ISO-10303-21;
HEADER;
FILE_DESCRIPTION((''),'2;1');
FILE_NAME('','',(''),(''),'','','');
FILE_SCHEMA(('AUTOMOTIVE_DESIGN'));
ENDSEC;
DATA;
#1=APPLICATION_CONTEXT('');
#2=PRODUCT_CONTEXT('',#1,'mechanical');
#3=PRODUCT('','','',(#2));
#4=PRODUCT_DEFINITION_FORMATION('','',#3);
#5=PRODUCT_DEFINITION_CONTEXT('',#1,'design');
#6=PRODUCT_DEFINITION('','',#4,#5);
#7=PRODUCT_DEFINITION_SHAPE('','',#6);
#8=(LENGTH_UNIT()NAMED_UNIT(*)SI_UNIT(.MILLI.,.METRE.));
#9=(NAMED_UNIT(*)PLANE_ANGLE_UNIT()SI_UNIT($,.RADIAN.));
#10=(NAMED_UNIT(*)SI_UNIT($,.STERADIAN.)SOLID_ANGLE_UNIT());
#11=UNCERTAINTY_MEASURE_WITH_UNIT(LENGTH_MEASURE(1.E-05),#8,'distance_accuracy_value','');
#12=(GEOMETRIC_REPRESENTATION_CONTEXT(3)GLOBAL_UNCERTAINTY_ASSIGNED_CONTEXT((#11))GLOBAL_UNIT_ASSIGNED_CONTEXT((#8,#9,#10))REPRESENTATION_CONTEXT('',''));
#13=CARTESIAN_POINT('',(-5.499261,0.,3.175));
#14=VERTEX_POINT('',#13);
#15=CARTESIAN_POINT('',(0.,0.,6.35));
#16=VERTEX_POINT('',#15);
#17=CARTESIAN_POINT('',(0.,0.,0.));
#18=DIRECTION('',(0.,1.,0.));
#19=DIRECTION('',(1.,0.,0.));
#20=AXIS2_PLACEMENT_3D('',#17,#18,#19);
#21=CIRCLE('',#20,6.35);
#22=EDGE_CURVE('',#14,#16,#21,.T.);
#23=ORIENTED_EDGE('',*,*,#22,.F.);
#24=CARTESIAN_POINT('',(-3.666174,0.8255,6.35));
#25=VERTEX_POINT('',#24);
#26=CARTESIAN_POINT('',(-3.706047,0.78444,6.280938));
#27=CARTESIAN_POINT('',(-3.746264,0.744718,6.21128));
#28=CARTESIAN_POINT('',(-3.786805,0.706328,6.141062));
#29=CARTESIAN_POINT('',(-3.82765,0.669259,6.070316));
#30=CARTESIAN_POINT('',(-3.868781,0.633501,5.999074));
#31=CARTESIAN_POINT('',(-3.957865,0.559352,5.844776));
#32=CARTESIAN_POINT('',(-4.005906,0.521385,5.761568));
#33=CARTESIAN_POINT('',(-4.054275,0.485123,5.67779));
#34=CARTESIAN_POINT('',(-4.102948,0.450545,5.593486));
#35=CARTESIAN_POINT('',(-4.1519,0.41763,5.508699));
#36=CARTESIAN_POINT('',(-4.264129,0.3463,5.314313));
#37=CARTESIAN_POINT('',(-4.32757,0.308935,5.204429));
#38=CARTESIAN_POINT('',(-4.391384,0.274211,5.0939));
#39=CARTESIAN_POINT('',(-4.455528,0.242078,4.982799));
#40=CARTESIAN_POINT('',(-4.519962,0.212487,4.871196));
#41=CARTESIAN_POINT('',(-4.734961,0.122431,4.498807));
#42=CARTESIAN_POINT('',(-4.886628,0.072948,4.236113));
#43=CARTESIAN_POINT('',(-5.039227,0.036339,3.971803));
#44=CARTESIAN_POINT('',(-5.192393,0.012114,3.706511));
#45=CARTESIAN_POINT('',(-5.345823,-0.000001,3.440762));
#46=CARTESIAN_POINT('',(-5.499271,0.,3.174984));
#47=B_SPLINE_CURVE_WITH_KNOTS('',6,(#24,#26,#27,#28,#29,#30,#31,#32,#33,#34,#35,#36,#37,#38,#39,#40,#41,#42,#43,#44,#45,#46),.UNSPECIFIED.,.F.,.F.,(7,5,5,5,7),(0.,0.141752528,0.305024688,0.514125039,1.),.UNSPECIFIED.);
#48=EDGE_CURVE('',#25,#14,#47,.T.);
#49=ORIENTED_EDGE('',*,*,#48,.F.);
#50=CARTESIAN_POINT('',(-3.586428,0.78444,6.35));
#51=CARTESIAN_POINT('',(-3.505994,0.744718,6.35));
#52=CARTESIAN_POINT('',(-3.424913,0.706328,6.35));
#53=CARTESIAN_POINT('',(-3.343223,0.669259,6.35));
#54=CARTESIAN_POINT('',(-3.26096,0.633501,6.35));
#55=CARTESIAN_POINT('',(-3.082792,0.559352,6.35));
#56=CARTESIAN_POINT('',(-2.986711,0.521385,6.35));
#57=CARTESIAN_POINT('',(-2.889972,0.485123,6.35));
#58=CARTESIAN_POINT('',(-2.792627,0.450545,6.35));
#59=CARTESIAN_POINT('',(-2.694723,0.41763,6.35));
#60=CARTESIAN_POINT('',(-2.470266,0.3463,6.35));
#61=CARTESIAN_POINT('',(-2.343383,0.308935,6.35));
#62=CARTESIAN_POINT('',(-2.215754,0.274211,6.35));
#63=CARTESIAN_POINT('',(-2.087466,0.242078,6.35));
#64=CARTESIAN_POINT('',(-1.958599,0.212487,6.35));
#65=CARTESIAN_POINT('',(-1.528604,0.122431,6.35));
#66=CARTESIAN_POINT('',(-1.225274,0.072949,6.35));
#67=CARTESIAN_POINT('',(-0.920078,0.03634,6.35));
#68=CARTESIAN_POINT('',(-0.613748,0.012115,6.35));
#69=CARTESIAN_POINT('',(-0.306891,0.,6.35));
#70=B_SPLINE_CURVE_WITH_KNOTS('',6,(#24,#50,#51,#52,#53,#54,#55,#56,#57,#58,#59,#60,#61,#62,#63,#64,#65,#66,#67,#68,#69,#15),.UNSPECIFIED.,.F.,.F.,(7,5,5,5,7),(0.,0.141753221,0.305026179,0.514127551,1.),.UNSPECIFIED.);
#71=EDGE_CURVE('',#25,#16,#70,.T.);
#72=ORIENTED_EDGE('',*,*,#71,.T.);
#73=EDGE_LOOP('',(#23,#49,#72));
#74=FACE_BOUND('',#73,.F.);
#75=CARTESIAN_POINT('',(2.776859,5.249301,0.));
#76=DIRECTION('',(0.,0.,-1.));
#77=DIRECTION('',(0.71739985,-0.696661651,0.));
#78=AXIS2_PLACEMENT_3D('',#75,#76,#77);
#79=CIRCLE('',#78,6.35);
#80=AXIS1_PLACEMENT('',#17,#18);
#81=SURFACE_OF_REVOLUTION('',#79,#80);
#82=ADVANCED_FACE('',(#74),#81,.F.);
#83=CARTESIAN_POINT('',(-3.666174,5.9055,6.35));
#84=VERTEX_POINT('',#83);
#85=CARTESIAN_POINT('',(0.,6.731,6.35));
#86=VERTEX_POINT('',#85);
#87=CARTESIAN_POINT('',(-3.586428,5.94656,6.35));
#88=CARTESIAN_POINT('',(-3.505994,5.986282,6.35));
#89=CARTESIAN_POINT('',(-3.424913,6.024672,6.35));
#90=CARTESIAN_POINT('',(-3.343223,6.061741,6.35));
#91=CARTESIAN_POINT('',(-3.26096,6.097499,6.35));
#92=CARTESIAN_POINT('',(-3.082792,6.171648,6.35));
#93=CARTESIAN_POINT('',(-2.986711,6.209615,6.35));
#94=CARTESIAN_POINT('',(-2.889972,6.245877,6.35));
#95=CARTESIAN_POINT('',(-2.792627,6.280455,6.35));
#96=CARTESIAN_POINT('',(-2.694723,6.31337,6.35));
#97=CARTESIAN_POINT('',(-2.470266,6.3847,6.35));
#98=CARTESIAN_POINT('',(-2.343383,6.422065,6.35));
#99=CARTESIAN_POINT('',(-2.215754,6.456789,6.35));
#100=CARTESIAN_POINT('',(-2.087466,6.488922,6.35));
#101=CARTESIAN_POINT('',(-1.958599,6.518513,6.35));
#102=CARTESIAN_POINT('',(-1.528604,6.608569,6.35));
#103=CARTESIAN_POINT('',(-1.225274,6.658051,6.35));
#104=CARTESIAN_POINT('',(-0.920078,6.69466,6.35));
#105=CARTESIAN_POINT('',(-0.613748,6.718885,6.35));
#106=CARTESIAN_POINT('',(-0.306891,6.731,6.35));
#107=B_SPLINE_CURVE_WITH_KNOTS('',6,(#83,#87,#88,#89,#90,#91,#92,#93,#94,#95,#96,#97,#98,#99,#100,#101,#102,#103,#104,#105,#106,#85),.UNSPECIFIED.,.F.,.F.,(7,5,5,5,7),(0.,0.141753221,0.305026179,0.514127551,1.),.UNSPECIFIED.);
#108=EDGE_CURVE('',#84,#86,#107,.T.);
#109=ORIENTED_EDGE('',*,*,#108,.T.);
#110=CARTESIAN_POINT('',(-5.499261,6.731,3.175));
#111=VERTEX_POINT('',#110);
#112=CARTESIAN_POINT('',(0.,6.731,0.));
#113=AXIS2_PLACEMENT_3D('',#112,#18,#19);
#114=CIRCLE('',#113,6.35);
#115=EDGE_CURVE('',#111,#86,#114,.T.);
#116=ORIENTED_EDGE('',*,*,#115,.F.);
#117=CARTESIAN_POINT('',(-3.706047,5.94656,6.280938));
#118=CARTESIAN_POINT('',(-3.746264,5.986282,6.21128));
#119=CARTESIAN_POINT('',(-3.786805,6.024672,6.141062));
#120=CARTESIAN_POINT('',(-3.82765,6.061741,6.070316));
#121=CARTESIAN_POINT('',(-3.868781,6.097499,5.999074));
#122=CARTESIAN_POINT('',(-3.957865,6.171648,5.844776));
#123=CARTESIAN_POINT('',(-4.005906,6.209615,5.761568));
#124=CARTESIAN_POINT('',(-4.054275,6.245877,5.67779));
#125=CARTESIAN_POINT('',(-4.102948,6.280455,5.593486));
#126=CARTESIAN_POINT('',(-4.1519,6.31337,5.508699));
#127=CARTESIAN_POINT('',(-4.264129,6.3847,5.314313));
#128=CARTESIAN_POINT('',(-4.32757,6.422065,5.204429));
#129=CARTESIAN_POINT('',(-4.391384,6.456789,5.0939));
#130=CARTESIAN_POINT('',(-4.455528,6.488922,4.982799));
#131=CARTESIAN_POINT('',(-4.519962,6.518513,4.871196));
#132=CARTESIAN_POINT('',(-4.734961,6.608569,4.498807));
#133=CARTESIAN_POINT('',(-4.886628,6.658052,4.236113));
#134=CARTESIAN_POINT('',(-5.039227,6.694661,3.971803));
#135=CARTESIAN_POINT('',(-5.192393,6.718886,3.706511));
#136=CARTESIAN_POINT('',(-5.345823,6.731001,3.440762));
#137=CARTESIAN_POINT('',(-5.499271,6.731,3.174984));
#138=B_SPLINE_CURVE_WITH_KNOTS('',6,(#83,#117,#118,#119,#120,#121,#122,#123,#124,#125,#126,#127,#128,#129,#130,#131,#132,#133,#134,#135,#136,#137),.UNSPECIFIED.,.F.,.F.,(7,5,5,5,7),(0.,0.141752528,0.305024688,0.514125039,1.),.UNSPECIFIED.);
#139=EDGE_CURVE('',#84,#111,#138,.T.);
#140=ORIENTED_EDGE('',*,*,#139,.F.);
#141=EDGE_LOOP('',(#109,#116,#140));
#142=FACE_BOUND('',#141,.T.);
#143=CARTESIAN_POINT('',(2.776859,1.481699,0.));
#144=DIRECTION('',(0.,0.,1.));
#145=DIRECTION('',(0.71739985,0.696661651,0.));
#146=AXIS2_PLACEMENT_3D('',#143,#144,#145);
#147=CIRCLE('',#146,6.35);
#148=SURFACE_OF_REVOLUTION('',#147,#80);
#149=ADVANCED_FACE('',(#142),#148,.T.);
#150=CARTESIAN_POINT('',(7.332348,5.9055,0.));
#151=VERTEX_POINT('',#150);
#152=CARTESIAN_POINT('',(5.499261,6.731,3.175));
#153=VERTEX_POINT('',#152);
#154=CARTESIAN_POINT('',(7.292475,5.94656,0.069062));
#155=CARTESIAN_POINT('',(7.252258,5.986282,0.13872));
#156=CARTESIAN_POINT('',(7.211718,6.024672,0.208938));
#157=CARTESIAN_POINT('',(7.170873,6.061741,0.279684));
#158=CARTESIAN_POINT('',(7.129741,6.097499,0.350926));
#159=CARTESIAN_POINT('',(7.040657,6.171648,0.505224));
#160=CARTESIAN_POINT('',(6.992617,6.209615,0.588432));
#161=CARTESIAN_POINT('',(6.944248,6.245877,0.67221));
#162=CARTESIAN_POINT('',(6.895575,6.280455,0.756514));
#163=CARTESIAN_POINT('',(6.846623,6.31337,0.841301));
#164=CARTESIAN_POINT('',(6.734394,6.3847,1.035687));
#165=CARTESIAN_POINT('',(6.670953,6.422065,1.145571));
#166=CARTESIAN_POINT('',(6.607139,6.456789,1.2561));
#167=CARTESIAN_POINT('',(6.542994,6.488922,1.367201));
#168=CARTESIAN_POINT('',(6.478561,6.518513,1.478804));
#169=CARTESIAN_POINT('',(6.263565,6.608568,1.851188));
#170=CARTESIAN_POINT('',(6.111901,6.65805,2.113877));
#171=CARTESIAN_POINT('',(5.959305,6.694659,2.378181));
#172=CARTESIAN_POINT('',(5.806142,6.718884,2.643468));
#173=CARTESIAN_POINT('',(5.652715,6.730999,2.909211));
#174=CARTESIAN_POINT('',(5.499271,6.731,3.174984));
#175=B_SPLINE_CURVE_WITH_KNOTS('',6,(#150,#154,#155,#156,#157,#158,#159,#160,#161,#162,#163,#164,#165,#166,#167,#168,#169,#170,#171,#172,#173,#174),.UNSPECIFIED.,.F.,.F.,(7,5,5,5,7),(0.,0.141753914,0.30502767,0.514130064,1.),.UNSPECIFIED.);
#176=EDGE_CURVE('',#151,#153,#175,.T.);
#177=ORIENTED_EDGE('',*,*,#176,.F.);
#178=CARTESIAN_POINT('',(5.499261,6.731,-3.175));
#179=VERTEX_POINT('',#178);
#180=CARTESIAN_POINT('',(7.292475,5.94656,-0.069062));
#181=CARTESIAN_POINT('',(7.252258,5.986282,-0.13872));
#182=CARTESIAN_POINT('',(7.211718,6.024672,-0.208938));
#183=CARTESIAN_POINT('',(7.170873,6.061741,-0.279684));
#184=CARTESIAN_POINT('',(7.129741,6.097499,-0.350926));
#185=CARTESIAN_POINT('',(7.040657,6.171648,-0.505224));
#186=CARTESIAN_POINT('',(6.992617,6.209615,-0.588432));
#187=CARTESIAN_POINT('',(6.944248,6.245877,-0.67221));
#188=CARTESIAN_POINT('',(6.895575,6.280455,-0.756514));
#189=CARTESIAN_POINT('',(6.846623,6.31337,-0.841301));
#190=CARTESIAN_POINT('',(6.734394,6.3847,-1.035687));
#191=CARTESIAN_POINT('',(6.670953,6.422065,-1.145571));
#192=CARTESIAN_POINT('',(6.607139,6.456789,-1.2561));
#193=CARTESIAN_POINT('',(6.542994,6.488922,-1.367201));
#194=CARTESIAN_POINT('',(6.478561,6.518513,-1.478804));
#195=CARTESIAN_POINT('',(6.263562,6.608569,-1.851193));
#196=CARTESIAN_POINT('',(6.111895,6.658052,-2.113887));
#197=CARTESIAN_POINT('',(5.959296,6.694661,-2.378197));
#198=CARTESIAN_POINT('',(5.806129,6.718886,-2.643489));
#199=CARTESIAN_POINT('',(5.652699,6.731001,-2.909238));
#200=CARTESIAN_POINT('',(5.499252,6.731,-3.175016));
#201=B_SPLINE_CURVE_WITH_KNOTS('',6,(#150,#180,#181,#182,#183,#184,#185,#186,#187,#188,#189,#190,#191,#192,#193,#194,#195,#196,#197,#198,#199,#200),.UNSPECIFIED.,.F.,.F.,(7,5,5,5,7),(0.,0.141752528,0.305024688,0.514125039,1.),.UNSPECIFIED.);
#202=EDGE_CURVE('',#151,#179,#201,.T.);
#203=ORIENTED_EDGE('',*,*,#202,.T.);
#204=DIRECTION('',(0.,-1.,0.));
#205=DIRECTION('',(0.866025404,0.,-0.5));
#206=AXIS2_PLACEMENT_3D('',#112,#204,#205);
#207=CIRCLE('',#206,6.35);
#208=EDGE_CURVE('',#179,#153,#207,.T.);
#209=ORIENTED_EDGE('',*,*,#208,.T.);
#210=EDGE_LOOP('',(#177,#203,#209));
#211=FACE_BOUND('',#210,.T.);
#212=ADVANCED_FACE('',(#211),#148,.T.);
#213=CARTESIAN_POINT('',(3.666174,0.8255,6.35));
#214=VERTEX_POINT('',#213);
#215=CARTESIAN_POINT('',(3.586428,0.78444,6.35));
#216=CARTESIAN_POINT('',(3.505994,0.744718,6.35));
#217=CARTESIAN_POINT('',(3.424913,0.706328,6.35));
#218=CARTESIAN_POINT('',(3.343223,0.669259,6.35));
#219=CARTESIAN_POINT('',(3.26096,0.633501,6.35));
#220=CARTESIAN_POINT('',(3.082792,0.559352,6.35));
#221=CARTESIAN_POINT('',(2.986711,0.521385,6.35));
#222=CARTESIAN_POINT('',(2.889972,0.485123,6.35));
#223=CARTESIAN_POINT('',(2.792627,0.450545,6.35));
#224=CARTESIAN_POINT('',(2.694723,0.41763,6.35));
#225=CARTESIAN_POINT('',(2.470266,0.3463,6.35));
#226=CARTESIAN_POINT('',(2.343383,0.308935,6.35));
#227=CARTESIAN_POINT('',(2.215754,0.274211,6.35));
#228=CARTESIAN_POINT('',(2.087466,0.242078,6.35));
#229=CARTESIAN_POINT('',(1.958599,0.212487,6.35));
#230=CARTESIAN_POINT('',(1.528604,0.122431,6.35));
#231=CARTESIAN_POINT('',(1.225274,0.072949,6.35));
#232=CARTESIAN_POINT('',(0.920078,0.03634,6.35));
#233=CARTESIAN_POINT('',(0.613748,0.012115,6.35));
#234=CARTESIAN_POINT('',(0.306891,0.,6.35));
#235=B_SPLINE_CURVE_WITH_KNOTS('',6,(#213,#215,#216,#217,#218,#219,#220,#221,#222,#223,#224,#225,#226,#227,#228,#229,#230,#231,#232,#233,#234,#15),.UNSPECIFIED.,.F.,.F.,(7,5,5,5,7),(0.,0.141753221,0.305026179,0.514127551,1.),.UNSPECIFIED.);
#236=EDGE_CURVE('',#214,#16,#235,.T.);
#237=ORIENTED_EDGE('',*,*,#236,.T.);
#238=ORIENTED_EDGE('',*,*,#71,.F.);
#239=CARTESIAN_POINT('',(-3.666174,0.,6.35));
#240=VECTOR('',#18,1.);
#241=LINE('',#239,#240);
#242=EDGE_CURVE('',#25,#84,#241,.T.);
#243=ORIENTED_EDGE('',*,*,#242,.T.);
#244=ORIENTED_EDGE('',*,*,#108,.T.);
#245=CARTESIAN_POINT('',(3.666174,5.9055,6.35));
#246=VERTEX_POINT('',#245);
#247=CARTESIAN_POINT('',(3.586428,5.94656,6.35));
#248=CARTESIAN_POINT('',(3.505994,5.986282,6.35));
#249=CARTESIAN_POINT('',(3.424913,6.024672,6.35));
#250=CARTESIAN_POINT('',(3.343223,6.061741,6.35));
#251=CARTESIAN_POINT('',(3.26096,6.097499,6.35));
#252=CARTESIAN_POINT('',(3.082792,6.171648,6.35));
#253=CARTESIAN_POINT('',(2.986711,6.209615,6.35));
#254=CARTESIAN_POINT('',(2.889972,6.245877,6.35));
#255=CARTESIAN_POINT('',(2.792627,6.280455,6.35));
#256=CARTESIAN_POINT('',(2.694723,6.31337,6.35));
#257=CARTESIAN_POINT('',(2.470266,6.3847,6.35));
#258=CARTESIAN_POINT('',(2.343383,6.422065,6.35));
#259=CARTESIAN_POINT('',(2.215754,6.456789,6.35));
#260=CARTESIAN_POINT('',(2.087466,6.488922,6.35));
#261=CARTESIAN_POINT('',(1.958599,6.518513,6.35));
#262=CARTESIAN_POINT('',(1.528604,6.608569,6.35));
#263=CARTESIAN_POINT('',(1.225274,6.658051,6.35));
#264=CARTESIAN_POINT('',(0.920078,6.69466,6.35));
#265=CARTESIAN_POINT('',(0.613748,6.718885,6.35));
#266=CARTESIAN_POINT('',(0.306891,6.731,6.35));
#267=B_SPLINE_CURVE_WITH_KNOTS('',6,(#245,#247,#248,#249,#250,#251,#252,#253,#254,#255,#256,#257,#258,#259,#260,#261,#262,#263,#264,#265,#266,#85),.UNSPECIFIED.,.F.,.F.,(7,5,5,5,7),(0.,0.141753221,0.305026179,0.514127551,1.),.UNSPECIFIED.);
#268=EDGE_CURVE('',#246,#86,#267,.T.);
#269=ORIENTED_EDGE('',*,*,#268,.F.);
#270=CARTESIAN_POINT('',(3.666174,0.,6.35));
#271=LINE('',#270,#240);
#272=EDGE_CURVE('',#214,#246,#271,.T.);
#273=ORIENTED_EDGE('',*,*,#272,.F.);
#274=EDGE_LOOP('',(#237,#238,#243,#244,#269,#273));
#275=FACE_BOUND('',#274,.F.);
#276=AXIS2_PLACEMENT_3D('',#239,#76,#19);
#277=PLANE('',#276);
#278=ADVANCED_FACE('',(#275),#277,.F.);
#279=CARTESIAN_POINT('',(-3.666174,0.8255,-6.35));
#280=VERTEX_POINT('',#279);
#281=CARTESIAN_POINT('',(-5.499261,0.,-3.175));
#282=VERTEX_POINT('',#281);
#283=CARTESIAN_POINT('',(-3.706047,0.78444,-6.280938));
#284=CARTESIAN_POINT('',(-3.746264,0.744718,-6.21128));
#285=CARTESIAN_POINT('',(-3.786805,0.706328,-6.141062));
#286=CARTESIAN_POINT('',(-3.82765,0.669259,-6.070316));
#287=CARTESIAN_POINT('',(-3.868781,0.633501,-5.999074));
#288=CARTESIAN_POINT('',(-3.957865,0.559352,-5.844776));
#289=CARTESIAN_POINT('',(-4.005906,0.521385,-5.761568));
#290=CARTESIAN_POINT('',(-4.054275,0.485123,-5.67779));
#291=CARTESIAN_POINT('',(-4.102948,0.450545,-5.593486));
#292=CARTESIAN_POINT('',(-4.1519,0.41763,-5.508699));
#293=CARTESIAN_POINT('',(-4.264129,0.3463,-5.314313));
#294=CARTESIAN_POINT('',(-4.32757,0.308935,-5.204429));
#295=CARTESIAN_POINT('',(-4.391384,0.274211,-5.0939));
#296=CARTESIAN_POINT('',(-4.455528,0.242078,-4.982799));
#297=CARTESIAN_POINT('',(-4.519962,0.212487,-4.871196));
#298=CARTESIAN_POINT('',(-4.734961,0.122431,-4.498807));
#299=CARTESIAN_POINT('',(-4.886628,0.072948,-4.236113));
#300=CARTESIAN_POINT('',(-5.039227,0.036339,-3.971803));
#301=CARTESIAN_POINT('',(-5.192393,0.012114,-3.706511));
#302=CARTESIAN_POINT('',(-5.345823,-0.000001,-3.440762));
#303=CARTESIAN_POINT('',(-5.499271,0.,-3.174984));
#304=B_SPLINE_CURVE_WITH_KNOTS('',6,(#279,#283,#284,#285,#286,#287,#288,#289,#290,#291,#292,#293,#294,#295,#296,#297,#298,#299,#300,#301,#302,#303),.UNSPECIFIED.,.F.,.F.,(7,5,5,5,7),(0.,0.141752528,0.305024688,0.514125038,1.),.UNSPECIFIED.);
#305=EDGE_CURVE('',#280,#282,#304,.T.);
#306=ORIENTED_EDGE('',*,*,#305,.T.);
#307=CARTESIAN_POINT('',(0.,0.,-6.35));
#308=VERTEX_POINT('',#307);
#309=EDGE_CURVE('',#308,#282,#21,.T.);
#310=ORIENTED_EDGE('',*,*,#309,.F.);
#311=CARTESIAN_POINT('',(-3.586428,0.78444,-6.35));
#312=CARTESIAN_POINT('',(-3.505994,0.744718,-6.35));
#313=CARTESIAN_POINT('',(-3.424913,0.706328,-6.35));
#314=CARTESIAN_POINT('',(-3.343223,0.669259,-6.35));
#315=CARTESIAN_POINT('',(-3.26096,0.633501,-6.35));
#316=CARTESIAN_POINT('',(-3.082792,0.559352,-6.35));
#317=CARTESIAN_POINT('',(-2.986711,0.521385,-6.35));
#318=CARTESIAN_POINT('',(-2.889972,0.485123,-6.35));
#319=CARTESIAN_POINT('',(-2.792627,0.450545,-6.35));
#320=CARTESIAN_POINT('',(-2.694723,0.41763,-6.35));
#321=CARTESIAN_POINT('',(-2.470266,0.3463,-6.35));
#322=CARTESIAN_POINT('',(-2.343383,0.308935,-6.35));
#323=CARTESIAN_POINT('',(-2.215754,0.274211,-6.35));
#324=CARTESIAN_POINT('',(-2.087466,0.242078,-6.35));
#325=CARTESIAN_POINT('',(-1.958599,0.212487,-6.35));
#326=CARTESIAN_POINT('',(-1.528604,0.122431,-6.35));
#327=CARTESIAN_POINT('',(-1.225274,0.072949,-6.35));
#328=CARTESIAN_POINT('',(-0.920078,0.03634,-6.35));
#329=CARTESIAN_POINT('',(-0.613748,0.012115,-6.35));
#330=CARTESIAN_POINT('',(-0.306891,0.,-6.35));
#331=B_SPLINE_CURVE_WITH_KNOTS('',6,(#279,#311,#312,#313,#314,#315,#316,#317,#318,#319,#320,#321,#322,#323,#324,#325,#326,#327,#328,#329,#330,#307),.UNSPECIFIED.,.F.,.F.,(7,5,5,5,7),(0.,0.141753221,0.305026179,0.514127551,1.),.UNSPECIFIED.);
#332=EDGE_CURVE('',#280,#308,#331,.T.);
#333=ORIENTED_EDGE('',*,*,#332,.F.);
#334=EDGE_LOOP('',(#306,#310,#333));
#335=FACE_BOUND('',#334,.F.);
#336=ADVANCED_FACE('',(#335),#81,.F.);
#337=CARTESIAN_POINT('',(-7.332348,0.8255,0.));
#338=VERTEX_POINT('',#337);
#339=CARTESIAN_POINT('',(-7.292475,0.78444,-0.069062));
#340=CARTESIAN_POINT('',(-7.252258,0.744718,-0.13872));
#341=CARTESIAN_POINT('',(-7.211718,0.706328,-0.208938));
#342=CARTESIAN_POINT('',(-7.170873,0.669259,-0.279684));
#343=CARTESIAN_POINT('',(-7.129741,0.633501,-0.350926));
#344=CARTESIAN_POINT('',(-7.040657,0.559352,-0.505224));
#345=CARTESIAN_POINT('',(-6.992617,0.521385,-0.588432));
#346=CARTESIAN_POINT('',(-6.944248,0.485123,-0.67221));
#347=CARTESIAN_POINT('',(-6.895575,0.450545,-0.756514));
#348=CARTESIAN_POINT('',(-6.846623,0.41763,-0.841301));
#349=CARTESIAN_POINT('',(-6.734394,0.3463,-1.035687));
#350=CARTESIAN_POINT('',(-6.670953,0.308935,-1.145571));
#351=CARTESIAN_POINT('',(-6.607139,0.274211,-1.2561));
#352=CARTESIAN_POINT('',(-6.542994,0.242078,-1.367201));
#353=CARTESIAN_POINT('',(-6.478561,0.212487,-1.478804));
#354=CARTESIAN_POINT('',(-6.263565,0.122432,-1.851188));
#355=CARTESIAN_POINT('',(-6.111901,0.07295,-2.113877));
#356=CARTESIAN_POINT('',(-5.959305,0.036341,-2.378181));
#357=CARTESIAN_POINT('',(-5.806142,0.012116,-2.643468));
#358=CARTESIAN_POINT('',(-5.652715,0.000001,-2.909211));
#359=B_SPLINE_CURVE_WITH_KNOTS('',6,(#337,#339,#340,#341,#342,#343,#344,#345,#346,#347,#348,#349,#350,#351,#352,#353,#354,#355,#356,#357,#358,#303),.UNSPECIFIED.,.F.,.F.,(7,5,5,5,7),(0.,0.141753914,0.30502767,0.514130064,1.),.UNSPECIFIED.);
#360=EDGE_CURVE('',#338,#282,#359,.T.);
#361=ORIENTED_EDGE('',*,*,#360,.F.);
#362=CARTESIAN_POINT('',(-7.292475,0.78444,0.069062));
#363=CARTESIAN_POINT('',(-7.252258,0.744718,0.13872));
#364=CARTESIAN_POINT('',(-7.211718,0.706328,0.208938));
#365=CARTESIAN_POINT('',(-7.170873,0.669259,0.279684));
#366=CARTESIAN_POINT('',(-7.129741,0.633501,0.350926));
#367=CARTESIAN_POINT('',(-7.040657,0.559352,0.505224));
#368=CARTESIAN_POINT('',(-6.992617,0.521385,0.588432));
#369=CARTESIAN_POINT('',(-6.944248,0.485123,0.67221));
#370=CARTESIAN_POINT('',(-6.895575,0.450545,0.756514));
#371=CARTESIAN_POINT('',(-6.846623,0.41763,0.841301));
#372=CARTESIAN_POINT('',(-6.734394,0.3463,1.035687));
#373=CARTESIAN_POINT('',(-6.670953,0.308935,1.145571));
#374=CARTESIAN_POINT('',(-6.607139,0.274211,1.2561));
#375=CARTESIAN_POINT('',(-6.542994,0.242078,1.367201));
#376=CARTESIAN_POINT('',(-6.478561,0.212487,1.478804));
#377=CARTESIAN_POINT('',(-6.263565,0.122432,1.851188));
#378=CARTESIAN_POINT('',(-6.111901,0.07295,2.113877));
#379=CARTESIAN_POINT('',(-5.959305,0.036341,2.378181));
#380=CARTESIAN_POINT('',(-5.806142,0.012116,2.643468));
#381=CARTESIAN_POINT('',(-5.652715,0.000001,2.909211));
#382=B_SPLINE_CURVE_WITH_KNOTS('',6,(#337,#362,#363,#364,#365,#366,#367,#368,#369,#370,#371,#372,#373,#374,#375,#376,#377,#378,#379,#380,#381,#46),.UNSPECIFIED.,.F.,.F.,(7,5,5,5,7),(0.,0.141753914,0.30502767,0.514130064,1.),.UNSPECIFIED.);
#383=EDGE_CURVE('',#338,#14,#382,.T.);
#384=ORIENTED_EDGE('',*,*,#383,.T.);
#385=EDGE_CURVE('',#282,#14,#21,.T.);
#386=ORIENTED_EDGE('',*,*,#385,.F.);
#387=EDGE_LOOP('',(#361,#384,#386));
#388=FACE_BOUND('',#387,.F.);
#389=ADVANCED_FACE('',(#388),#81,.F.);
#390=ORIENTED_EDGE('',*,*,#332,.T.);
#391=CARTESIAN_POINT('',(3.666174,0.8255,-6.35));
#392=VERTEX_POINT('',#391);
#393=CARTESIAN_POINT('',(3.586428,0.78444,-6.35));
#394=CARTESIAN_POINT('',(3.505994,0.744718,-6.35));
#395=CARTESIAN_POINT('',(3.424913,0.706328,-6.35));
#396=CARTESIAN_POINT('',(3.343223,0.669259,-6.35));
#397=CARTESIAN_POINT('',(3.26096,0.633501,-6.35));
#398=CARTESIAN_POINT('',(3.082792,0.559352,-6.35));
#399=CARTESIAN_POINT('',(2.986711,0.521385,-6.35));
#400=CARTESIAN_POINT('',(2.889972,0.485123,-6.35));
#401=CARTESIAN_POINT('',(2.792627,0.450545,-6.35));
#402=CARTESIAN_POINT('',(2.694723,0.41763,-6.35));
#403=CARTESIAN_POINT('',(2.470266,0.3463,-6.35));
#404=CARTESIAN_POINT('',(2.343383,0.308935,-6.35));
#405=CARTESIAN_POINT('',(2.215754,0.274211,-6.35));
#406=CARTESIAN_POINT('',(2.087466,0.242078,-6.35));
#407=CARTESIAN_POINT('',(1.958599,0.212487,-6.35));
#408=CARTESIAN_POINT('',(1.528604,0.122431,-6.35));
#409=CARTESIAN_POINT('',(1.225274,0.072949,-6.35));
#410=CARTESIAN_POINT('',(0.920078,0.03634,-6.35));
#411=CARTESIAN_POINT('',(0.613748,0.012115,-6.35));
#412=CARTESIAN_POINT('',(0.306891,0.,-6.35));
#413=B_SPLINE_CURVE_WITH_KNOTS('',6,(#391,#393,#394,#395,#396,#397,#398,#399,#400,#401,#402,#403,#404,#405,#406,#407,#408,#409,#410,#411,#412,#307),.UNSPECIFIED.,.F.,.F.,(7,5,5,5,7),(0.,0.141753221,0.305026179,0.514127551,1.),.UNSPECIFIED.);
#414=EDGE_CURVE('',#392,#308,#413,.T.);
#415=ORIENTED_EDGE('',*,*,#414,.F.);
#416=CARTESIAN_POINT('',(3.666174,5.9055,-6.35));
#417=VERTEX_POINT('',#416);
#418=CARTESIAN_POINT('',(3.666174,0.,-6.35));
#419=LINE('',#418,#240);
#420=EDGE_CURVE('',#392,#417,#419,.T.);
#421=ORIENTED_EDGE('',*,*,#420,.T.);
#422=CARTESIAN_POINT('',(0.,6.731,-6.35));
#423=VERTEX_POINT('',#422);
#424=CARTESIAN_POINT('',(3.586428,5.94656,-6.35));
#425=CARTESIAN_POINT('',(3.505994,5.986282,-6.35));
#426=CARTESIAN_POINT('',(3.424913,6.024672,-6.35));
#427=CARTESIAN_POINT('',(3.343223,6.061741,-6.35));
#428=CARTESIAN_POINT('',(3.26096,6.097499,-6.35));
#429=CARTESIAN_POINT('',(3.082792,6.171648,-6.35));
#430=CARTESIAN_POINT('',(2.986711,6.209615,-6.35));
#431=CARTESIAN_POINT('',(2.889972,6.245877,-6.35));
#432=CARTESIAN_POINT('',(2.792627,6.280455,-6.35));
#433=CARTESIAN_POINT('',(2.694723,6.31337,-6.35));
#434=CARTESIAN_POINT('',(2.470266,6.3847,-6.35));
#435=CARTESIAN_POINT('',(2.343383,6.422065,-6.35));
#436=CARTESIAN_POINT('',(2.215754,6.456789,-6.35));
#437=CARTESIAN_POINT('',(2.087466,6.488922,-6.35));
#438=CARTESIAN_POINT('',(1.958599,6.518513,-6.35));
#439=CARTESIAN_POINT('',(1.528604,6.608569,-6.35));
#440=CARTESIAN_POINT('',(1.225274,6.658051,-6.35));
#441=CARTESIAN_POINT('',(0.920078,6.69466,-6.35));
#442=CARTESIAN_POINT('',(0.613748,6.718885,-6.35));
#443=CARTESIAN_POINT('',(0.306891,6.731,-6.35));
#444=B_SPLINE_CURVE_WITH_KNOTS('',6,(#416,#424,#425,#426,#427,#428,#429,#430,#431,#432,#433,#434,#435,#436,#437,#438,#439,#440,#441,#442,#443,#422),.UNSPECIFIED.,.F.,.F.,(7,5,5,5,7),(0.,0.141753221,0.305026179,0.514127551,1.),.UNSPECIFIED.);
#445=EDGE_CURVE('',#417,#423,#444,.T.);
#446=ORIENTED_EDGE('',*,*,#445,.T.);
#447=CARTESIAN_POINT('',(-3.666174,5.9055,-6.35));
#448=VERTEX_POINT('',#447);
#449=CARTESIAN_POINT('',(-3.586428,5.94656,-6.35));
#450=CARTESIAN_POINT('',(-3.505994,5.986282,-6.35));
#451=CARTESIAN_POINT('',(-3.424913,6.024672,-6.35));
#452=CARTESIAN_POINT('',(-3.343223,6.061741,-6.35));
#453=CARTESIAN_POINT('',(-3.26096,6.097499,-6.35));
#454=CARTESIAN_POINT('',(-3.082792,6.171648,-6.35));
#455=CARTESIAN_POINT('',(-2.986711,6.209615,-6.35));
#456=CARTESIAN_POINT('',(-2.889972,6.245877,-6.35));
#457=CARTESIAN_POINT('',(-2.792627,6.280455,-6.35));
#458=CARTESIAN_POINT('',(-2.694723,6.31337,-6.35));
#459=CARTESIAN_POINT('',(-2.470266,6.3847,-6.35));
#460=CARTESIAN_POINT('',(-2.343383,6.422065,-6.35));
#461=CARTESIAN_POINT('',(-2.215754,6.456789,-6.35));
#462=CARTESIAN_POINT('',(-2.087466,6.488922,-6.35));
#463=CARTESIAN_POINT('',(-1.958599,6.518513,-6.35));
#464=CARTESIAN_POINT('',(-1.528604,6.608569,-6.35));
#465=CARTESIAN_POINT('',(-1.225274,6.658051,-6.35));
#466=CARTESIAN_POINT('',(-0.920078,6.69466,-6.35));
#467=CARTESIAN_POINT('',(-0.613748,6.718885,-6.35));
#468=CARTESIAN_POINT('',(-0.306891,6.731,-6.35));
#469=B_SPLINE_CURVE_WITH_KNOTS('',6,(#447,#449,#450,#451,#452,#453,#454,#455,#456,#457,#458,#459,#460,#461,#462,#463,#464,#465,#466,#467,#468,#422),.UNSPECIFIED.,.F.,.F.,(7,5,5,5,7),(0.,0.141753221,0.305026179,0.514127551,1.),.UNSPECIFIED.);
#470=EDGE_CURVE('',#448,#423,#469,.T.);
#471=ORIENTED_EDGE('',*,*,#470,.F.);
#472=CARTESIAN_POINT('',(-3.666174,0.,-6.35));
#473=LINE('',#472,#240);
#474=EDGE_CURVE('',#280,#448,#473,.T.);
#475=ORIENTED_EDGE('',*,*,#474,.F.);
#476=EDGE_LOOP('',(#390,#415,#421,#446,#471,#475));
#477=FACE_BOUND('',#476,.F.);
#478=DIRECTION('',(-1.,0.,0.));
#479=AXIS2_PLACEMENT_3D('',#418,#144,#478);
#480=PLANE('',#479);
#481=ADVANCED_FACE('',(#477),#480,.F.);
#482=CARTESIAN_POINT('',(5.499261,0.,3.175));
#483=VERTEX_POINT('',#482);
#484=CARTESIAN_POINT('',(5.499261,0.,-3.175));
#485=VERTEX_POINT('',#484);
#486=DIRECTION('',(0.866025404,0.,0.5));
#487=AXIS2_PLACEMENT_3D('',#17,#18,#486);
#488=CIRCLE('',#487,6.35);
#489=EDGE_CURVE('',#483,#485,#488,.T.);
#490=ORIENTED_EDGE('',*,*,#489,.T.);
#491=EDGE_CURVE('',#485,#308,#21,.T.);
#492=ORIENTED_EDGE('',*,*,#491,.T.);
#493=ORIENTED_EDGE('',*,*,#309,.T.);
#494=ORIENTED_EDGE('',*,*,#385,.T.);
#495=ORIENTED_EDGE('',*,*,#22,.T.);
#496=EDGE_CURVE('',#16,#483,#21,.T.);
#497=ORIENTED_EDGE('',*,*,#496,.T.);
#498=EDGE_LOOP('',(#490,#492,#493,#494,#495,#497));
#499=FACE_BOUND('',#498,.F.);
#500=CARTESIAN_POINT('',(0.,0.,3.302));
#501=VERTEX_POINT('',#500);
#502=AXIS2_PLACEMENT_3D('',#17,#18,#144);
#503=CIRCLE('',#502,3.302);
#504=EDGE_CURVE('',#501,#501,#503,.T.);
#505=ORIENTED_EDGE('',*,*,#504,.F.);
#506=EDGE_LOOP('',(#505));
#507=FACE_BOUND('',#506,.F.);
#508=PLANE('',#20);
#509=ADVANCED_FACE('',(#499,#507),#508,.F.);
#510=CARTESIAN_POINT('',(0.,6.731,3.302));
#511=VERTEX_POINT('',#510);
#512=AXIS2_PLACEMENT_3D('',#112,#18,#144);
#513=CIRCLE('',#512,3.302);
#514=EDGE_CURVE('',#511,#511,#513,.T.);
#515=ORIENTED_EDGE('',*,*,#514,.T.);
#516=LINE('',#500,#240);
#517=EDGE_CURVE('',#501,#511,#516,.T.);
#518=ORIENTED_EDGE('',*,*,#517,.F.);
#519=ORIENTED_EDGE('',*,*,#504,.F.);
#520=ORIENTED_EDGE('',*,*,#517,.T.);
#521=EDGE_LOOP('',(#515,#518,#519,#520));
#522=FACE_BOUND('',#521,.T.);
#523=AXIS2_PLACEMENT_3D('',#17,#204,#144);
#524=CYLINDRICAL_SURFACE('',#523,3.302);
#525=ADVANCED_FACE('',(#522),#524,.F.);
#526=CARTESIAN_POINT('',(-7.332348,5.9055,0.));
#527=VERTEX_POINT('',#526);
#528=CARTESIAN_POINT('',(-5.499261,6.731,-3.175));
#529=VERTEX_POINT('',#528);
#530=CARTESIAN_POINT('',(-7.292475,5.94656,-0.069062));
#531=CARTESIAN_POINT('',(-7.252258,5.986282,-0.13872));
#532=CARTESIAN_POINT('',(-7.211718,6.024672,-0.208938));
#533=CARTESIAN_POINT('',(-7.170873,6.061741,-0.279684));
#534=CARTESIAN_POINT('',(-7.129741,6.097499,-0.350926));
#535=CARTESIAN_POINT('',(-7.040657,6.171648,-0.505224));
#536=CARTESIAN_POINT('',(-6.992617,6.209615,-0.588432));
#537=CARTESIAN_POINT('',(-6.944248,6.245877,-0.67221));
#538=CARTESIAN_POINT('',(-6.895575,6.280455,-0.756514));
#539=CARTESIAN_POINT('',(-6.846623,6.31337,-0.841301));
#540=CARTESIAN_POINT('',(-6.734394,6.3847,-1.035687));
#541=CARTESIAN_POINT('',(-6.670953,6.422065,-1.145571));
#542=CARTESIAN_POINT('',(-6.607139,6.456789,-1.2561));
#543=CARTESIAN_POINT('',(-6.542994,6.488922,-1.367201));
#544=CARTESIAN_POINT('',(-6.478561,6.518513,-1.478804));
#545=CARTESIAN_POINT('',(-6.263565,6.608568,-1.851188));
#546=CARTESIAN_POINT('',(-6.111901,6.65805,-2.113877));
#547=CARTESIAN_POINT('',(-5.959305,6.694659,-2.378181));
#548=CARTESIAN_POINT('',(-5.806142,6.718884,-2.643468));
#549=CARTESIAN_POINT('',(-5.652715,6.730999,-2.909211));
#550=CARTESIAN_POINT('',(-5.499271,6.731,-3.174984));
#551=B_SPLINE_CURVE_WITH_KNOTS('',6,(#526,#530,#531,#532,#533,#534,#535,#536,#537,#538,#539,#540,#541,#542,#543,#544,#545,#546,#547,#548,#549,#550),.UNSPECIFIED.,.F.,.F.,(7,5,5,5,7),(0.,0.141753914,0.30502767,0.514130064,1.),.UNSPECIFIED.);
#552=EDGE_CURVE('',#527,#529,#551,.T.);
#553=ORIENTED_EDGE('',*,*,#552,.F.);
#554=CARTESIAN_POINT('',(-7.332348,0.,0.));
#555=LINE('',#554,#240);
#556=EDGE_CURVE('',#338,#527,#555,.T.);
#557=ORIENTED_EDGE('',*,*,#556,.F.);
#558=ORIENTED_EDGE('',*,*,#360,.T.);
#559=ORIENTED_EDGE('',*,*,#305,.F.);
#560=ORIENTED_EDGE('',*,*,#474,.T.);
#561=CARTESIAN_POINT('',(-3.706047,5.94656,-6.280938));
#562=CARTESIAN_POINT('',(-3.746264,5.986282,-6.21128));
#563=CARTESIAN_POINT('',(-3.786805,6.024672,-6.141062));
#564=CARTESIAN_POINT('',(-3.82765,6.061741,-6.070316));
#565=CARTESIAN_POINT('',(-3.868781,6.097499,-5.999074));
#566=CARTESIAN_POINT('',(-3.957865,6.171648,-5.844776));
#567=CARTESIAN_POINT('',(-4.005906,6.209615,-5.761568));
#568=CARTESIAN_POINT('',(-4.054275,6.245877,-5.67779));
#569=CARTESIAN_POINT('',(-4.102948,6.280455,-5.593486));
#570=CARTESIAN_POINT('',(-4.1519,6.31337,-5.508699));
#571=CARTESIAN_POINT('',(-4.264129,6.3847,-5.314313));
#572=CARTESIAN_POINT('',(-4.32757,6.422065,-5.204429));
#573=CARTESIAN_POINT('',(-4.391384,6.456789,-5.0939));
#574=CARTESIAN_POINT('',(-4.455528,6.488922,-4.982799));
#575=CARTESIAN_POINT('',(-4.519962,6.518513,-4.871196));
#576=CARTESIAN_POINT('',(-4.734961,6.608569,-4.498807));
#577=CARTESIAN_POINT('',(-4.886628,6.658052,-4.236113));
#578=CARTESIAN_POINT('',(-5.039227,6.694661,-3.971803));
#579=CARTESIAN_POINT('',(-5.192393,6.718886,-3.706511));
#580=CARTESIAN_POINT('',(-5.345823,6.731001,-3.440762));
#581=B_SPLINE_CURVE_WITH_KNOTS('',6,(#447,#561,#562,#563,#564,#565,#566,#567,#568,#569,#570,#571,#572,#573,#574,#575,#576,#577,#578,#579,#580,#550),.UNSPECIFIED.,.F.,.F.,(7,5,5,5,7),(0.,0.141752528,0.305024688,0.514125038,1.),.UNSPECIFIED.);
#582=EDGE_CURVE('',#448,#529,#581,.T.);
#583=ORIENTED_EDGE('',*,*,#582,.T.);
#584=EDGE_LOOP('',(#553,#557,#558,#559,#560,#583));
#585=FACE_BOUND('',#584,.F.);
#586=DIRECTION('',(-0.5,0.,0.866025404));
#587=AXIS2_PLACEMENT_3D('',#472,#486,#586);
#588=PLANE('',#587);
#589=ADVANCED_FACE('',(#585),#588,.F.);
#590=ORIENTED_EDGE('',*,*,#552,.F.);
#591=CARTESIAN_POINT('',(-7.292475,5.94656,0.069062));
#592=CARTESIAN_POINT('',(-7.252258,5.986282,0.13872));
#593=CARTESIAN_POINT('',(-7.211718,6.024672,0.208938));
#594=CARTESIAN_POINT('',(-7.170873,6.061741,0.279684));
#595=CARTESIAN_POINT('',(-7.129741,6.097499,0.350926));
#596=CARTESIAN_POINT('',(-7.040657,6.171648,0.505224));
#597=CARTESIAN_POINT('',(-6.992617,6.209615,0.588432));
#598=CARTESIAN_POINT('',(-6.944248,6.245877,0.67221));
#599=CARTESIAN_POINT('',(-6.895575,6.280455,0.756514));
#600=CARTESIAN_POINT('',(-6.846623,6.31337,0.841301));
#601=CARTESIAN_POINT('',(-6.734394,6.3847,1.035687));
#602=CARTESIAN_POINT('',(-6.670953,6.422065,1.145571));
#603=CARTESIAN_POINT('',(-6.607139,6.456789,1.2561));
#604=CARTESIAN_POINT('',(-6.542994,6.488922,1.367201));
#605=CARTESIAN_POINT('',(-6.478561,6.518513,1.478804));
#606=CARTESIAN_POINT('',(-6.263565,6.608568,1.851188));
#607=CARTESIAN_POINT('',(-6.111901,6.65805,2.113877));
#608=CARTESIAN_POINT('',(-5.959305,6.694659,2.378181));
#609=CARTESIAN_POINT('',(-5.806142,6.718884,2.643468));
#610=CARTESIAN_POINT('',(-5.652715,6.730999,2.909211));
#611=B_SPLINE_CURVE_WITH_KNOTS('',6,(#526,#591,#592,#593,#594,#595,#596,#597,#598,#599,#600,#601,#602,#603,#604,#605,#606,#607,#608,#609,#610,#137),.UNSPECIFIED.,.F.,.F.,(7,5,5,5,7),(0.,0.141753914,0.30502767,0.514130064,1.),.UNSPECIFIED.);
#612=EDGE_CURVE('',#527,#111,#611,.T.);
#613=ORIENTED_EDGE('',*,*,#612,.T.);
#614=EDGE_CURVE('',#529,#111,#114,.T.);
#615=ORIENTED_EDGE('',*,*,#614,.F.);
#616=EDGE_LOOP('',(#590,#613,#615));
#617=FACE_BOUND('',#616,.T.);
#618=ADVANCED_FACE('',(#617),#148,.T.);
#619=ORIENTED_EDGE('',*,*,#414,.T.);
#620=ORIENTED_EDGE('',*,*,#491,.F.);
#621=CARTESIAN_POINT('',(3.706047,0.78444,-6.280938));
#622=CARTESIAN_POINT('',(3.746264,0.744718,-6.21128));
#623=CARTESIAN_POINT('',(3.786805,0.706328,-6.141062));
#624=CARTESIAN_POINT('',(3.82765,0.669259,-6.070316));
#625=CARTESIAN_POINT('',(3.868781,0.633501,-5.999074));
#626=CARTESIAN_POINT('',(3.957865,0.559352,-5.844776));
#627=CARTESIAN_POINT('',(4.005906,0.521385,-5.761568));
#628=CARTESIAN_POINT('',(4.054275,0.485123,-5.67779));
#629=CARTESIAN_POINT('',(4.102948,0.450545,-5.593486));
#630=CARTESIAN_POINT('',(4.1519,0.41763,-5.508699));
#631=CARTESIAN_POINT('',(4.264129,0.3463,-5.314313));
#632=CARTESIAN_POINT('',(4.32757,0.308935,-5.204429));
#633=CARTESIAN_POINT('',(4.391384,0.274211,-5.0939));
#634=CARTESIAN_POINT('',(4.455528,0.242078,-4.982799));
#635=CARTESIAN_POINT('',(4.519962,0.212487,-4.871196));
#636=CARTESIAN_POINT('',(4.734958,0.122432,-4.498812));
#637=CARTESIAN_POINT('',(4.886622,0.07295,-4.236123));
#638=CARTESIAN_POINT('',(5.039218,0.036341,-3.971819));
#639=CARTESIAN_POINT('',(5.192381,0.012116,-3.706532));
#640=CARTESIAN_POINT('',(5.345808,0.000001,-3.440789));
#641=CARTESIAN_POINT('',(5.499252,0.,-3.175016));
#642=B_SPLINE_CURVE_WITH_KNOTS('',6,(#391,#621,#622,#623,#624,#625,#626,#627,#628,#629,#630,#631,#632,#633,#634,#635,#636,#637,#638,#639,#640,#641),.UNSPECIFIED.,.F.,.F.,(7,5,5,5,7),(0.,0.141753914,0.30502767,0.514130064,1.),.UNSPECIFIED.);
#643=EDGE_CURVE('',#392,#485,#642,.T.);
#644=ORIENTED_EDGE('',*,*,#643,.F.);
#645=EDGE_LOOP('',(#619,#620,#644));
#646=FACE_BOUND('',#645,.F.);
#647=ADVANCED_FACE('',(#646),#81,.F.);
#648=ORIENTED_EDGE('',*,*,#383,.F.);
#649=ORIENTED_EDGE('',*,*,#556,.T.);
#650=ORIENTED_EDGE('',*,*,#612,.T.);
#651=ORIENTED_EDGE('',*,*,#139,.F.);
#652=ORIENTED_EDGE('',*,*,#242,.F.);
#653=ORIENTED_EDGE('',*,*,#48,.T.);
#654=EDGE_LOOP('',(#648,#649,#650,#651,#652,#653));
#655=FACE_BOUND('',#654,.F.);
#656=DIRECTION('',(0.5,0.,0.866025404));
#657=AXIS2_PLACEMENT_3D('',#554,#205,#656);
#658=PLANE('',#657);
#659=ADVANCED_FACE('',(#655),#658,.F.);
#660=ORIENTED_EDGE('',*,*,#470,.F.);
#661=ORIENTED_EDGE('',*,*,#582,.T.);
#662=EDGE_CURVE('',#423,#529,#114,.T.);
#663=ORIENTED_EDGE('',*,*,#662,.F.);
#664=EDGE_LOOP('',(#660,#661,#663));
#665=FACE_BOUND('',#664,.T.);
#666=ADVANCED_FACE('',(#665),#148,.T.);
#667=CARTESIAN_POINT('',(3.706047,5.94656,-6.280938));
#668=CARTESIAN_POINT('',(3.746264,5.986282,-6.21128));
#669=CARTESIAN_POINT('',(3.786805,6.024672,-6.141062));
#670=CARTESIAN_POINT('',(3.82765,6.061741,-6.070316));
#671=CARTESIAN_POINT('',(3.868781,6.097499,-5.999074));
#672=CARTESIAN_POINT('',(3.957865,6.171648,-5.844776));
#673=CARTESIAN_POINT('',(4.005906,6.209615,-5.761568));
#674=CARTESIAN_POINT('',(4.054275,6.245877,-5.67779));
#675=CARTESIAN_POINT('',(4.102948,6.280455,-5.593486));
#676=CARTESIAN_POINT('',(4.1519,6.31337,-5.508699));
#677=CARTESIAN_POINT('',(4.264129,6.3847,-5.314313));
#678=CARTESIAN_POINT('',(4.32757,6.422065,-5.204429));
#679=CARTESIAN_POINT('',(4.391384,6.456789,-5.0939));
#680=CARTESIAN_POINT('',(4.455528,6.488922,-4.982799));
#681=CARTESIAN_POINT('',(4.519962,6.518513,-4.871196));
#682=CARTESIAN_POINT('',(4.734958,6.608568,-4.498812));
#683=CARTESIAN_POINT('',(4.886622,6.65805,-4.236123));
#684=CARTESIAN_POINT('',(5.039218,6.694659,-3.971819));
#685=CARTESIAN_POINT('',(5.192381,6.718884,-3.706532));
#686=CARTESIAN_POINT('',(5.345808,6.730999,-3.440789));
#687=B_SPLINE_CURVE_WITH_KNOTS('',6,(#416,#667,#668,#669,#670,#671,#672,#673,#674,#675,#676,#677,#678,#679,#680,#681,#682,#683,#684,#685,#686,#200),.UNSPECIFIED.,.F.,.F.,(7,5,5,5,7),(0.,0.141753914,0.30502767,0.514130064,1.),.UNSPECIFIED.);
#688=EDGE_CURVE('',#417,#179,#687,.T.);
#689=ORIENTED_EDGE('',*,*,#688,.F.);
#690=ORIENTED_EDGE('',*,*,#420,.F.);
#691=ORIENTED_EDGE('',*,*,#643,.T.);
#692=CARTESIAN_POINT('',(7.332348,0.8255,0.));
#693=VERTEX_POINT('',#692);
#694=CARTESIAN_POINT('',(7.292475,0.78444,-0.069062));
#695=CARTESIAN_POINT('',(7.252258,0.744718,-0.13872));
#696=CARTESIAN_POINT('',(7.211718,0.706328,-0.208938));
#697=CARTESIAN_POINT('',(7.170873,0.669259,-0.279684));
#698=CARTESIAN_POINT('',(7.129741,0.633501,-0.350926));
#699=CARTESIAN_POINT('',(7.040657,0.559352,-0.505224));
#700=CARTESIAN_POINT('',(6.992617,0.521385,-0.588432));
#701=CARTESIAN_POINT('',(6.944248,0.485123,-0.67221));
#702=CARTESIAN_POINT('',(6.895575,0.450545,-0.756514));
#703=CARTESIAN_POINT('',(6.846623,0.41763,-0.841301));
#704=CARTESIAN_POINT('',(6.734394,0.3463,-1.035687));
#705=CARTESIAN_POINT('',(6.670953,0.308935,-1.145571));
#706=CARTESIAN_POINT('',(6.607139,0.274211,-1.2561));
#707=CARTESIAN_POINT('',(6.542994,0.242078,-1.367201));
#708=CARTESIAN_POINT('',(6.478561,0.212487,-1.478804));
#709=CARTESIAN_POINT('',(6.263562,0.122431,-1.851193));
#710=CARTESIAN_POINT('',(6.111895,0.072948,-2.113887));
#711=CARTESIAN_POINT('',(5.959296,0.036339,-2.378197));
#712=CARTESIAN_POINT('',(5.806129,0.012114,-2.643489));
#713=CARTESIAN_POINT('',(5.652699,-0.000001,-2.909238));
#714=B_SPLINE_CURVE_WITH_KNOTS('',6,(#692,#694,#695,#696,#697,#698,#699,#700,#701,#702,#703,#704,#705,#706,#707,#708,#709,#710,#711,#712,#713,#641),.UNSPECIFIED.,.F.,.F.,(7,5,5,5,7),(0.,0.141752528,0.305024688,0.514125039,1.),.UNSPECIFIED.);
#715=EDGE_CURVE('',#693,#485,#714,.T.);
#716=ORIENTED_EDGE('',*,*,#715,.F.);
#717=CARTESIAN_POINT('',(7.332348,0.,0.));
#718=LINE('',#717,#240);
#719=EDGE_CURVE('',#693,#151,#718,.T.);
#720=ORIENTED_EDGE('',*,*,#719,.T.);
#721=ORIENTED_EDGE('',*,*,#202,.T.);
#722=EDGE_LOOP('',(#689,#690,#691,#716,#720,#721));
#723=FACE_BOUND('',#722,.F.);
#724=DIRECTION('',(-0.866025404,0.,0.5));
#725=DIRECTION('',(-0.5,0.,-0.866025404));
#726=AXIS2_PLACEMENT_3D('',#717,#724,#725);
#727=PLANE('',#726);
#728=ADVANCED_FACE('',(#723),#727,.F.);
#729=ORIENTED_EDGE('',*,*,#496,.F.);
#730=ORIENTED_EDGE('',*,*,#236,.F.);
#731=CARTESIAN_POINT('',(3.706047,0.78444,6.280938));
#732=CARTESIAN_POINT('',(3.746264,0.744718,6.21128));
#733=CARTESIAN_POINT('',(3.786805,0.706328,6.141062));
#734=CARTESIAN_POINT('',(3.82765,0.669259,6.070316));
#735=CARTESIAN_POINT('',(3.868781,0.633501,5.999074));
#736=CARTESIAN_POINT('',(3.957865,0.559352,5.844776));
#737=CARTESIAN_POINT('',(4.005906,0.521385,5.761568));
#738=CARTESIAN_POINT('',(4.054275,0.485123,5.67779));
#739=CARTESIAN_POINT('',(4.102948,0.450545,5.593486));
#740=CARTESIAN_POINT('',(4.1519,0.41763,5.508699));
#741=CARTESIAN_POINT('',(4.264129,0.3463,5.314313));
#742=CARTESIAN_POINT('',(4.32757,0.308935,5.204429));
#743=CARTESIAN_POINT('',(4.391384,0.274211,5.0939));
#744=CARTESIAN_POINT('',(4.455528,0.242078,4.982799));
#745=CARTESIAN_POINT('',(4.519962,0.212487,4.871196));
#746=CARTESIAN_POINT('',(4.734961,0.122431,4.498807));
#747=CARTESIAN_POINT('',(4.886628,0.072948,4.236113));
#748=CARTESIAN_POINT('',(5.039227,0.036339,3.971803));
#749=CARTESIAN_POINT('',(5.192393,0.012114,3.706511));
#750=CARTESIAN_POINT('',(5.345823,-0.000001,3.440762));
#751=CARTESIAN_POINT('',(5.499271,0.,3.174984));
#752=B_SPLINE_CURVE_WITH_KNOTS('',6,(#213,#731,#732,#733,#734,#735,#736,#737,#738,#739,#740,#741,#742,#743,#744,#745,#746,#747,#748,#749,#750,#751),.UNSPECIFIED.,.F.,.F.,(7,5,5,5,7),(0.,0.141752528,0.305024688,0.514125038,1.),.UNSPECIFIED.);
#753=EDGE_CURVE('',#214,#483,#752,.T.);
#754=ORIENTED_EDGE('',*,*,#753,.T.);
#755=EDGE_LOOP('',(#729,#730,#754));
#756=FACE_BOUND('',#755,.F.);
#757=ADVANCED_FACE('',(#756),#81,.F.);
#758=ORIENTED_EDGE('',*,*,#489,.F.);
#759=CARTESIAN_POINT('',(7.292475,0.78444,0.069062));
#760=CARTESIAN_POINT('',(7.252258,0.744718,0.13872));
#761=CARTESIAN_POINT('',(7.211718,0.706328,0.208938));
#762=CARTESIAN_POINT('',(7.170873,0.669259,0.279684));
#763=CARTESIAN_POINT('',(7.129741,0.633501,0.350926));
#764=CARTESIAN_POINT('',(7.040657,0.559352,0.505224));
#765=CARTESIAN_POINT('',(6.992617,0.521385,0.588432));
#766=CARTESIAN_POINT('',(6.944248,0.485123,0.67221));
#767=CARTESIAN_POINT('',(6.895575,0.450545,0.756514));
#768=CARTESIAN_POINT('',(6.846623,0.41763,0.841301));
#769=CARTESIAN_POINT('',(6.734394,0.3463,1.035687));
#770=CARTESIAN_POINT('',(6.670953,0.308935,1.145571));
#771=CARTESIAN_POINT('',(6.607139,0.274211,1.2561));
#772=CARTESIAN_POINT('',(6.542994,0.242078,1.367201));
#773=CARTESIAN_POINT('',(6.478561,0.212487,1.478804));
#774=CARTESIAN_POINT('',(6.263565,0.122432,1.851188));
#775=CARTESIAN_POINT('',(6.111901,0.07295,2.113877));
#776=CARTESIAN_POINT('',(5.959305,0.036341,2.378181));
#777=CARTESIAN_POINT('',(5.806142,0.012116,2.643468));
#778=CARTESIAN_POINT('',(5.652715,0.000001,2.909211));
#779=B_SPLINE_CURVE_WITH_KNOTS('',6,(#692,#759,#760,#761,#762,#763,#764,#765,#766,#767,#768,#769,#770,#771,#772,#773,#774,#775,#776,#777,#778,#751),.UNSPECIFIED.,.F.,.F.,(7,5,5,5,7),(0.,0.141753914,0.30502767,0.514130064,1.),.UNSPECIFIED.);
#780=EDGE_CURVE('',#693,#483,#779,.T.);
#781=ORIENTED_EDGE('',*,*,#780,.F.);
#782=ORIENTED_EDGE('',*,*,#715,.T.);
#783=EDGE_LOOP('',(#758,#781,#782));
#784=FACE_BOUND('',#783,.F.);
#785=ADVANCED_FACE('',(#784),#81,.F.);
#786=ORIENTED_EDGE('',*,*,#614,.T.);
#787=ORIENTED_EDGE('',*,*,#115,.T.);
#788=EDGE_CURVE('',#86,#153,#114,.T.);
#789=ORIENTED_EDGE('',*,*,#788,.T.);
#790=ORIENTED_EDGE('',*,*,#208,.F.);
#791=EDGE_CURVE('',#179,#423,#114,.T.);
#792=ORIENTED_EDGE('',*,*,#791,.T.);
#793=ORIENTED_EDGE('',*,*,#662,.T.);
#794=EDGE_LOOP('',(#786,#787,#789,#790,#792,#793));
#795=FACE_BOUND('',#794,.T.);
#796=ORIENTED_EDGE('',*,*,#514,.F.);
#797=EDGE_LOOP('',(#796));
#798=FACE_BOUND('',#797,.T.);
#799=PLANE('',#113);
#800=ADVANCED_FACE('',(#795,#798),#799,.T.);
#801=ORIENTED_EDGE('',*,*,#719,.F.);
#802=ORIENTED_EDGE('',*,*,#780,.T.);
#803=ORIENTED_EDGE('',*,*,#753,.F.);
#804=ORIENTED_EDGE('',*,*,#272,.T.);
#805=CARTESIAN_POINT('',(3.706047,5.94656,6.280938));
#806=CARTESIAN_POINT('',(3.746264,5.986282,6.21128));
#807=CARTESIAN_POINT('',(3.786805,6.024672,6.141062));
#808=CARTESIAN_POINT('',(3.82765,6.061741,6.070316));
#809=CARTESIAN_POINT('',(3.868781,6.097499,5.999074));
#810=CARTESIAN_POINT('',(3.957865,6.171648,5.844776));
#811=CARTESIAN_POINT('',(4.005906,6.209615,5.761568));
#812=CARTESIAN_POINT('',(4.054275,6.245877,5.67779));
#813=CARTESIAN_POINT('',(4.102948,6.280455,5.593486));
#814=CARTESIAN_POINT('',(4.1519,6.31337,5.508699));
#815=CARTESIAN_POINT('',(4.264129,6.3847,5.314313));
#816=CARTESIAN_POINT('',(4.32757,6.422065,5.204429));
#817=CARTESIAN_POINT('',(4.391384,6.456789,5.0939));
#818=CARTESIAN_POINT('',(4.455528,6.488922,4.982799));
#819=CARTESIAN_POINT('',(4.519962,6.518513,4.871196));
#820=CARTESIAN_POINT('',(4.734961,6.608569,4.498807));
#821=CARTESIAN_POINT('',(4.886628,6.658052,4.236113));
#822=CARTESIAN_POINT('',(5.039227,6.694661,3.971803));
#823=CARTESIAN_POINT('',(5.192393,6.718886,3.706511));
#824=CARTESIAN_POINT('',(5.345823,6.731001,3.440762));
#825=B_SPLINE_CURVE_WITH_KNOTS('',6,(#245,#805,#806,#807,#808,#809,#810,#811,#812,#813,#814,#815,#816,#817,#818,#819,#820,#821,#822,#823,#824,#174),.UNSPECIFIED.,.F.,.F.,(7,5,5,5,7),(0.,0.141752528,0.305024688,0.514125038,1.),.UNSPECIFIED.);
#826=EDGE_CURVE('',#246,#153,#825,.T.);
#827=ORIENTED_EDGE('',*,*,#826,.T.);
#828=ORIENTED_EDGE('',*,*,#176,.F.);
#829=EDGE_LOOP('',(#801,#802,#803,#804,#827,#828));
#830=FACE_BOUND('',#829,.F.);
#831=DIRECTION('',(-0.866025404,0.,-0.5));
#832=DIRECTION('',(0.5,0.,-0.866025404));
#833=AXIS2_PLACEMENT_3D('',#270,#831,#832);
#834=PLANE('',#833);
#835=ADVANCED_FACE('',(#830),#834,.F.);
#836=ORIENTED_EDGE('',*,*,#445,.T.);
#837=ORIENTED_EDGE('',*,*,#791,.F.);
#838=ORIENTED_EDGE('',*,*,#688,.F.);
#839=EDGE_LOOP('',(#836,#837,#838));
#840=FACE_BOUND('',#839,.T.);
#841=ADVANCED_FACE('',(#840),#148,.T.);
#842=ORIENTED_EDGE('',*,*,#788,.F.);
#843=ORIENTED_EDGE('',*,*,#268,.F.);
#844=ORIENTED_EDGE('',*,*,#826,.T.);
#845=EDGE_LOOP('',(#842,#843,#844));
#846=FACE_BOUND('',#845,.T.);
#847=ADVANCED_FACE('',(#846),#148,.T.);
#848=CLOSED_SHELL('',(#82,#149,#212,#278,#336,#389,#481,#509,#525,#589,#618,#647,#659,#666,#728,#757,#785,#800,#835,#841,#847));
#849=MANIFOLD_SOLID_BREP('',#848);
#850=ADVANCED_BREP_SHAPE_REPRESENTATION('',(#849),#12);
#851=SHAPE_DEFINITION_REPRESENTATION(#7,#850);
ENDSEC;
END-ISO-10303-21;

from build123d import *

# Parameters (mm, degrees)
SKETCH1_R      = 3.302
EXTRUDE1_DEPTH = 6.731


with BuildPart() as part:
    # Sketch1 → Extrude1 (new body)
    with BuildSketch(Plane(origin=(0, 0, 0), x_dir=(1, 0, 0), z_dir=(0, 1, 0))):
        Polygon((7.332348419, 0), (3.666174209, 6.35), (-3.666174209, 6.35), (-7.332348419, 0), (-3.666174209, -6.35), (3.666174209, -6.35), align=None)
        with Locations(Location((0, 0, 0), (0, 0, 270))):
            Circle(SKETCH1_R, mode=Mode.SUBTRACT)
    extrude(amount=EXTRUDE1_DEPTH)

    # Sketch2 → Cut-Revolve1 (revolve, cut)
    with BuildSketch(Plane.XY):
        with BuildLine():
            Line((6.35, 6.731), (7.332348419, 6.731))
            Line((7.332348419, 6.731), (7.332348419, 5.9055))
            ThreePointArc((7.332348419, 5.9055), (6.862078786, 6.343126533), (6.35, 6.731))
        make_face()
        with BuildLine():
            Line((7.332348419, 0), (7.332348419, 0.8255))
            ThreePointArc((7.332348419, 0.8255), (6.862078786, 0.387873467), (6.35, 0))
            Line((6.35, 0), (7.332348419, 0))
        make_face()
    revolve(axis=Axis((0, 0, 0), (0, 1, 0)), mode=Mode.SUBTRACT)


solid = part.part
